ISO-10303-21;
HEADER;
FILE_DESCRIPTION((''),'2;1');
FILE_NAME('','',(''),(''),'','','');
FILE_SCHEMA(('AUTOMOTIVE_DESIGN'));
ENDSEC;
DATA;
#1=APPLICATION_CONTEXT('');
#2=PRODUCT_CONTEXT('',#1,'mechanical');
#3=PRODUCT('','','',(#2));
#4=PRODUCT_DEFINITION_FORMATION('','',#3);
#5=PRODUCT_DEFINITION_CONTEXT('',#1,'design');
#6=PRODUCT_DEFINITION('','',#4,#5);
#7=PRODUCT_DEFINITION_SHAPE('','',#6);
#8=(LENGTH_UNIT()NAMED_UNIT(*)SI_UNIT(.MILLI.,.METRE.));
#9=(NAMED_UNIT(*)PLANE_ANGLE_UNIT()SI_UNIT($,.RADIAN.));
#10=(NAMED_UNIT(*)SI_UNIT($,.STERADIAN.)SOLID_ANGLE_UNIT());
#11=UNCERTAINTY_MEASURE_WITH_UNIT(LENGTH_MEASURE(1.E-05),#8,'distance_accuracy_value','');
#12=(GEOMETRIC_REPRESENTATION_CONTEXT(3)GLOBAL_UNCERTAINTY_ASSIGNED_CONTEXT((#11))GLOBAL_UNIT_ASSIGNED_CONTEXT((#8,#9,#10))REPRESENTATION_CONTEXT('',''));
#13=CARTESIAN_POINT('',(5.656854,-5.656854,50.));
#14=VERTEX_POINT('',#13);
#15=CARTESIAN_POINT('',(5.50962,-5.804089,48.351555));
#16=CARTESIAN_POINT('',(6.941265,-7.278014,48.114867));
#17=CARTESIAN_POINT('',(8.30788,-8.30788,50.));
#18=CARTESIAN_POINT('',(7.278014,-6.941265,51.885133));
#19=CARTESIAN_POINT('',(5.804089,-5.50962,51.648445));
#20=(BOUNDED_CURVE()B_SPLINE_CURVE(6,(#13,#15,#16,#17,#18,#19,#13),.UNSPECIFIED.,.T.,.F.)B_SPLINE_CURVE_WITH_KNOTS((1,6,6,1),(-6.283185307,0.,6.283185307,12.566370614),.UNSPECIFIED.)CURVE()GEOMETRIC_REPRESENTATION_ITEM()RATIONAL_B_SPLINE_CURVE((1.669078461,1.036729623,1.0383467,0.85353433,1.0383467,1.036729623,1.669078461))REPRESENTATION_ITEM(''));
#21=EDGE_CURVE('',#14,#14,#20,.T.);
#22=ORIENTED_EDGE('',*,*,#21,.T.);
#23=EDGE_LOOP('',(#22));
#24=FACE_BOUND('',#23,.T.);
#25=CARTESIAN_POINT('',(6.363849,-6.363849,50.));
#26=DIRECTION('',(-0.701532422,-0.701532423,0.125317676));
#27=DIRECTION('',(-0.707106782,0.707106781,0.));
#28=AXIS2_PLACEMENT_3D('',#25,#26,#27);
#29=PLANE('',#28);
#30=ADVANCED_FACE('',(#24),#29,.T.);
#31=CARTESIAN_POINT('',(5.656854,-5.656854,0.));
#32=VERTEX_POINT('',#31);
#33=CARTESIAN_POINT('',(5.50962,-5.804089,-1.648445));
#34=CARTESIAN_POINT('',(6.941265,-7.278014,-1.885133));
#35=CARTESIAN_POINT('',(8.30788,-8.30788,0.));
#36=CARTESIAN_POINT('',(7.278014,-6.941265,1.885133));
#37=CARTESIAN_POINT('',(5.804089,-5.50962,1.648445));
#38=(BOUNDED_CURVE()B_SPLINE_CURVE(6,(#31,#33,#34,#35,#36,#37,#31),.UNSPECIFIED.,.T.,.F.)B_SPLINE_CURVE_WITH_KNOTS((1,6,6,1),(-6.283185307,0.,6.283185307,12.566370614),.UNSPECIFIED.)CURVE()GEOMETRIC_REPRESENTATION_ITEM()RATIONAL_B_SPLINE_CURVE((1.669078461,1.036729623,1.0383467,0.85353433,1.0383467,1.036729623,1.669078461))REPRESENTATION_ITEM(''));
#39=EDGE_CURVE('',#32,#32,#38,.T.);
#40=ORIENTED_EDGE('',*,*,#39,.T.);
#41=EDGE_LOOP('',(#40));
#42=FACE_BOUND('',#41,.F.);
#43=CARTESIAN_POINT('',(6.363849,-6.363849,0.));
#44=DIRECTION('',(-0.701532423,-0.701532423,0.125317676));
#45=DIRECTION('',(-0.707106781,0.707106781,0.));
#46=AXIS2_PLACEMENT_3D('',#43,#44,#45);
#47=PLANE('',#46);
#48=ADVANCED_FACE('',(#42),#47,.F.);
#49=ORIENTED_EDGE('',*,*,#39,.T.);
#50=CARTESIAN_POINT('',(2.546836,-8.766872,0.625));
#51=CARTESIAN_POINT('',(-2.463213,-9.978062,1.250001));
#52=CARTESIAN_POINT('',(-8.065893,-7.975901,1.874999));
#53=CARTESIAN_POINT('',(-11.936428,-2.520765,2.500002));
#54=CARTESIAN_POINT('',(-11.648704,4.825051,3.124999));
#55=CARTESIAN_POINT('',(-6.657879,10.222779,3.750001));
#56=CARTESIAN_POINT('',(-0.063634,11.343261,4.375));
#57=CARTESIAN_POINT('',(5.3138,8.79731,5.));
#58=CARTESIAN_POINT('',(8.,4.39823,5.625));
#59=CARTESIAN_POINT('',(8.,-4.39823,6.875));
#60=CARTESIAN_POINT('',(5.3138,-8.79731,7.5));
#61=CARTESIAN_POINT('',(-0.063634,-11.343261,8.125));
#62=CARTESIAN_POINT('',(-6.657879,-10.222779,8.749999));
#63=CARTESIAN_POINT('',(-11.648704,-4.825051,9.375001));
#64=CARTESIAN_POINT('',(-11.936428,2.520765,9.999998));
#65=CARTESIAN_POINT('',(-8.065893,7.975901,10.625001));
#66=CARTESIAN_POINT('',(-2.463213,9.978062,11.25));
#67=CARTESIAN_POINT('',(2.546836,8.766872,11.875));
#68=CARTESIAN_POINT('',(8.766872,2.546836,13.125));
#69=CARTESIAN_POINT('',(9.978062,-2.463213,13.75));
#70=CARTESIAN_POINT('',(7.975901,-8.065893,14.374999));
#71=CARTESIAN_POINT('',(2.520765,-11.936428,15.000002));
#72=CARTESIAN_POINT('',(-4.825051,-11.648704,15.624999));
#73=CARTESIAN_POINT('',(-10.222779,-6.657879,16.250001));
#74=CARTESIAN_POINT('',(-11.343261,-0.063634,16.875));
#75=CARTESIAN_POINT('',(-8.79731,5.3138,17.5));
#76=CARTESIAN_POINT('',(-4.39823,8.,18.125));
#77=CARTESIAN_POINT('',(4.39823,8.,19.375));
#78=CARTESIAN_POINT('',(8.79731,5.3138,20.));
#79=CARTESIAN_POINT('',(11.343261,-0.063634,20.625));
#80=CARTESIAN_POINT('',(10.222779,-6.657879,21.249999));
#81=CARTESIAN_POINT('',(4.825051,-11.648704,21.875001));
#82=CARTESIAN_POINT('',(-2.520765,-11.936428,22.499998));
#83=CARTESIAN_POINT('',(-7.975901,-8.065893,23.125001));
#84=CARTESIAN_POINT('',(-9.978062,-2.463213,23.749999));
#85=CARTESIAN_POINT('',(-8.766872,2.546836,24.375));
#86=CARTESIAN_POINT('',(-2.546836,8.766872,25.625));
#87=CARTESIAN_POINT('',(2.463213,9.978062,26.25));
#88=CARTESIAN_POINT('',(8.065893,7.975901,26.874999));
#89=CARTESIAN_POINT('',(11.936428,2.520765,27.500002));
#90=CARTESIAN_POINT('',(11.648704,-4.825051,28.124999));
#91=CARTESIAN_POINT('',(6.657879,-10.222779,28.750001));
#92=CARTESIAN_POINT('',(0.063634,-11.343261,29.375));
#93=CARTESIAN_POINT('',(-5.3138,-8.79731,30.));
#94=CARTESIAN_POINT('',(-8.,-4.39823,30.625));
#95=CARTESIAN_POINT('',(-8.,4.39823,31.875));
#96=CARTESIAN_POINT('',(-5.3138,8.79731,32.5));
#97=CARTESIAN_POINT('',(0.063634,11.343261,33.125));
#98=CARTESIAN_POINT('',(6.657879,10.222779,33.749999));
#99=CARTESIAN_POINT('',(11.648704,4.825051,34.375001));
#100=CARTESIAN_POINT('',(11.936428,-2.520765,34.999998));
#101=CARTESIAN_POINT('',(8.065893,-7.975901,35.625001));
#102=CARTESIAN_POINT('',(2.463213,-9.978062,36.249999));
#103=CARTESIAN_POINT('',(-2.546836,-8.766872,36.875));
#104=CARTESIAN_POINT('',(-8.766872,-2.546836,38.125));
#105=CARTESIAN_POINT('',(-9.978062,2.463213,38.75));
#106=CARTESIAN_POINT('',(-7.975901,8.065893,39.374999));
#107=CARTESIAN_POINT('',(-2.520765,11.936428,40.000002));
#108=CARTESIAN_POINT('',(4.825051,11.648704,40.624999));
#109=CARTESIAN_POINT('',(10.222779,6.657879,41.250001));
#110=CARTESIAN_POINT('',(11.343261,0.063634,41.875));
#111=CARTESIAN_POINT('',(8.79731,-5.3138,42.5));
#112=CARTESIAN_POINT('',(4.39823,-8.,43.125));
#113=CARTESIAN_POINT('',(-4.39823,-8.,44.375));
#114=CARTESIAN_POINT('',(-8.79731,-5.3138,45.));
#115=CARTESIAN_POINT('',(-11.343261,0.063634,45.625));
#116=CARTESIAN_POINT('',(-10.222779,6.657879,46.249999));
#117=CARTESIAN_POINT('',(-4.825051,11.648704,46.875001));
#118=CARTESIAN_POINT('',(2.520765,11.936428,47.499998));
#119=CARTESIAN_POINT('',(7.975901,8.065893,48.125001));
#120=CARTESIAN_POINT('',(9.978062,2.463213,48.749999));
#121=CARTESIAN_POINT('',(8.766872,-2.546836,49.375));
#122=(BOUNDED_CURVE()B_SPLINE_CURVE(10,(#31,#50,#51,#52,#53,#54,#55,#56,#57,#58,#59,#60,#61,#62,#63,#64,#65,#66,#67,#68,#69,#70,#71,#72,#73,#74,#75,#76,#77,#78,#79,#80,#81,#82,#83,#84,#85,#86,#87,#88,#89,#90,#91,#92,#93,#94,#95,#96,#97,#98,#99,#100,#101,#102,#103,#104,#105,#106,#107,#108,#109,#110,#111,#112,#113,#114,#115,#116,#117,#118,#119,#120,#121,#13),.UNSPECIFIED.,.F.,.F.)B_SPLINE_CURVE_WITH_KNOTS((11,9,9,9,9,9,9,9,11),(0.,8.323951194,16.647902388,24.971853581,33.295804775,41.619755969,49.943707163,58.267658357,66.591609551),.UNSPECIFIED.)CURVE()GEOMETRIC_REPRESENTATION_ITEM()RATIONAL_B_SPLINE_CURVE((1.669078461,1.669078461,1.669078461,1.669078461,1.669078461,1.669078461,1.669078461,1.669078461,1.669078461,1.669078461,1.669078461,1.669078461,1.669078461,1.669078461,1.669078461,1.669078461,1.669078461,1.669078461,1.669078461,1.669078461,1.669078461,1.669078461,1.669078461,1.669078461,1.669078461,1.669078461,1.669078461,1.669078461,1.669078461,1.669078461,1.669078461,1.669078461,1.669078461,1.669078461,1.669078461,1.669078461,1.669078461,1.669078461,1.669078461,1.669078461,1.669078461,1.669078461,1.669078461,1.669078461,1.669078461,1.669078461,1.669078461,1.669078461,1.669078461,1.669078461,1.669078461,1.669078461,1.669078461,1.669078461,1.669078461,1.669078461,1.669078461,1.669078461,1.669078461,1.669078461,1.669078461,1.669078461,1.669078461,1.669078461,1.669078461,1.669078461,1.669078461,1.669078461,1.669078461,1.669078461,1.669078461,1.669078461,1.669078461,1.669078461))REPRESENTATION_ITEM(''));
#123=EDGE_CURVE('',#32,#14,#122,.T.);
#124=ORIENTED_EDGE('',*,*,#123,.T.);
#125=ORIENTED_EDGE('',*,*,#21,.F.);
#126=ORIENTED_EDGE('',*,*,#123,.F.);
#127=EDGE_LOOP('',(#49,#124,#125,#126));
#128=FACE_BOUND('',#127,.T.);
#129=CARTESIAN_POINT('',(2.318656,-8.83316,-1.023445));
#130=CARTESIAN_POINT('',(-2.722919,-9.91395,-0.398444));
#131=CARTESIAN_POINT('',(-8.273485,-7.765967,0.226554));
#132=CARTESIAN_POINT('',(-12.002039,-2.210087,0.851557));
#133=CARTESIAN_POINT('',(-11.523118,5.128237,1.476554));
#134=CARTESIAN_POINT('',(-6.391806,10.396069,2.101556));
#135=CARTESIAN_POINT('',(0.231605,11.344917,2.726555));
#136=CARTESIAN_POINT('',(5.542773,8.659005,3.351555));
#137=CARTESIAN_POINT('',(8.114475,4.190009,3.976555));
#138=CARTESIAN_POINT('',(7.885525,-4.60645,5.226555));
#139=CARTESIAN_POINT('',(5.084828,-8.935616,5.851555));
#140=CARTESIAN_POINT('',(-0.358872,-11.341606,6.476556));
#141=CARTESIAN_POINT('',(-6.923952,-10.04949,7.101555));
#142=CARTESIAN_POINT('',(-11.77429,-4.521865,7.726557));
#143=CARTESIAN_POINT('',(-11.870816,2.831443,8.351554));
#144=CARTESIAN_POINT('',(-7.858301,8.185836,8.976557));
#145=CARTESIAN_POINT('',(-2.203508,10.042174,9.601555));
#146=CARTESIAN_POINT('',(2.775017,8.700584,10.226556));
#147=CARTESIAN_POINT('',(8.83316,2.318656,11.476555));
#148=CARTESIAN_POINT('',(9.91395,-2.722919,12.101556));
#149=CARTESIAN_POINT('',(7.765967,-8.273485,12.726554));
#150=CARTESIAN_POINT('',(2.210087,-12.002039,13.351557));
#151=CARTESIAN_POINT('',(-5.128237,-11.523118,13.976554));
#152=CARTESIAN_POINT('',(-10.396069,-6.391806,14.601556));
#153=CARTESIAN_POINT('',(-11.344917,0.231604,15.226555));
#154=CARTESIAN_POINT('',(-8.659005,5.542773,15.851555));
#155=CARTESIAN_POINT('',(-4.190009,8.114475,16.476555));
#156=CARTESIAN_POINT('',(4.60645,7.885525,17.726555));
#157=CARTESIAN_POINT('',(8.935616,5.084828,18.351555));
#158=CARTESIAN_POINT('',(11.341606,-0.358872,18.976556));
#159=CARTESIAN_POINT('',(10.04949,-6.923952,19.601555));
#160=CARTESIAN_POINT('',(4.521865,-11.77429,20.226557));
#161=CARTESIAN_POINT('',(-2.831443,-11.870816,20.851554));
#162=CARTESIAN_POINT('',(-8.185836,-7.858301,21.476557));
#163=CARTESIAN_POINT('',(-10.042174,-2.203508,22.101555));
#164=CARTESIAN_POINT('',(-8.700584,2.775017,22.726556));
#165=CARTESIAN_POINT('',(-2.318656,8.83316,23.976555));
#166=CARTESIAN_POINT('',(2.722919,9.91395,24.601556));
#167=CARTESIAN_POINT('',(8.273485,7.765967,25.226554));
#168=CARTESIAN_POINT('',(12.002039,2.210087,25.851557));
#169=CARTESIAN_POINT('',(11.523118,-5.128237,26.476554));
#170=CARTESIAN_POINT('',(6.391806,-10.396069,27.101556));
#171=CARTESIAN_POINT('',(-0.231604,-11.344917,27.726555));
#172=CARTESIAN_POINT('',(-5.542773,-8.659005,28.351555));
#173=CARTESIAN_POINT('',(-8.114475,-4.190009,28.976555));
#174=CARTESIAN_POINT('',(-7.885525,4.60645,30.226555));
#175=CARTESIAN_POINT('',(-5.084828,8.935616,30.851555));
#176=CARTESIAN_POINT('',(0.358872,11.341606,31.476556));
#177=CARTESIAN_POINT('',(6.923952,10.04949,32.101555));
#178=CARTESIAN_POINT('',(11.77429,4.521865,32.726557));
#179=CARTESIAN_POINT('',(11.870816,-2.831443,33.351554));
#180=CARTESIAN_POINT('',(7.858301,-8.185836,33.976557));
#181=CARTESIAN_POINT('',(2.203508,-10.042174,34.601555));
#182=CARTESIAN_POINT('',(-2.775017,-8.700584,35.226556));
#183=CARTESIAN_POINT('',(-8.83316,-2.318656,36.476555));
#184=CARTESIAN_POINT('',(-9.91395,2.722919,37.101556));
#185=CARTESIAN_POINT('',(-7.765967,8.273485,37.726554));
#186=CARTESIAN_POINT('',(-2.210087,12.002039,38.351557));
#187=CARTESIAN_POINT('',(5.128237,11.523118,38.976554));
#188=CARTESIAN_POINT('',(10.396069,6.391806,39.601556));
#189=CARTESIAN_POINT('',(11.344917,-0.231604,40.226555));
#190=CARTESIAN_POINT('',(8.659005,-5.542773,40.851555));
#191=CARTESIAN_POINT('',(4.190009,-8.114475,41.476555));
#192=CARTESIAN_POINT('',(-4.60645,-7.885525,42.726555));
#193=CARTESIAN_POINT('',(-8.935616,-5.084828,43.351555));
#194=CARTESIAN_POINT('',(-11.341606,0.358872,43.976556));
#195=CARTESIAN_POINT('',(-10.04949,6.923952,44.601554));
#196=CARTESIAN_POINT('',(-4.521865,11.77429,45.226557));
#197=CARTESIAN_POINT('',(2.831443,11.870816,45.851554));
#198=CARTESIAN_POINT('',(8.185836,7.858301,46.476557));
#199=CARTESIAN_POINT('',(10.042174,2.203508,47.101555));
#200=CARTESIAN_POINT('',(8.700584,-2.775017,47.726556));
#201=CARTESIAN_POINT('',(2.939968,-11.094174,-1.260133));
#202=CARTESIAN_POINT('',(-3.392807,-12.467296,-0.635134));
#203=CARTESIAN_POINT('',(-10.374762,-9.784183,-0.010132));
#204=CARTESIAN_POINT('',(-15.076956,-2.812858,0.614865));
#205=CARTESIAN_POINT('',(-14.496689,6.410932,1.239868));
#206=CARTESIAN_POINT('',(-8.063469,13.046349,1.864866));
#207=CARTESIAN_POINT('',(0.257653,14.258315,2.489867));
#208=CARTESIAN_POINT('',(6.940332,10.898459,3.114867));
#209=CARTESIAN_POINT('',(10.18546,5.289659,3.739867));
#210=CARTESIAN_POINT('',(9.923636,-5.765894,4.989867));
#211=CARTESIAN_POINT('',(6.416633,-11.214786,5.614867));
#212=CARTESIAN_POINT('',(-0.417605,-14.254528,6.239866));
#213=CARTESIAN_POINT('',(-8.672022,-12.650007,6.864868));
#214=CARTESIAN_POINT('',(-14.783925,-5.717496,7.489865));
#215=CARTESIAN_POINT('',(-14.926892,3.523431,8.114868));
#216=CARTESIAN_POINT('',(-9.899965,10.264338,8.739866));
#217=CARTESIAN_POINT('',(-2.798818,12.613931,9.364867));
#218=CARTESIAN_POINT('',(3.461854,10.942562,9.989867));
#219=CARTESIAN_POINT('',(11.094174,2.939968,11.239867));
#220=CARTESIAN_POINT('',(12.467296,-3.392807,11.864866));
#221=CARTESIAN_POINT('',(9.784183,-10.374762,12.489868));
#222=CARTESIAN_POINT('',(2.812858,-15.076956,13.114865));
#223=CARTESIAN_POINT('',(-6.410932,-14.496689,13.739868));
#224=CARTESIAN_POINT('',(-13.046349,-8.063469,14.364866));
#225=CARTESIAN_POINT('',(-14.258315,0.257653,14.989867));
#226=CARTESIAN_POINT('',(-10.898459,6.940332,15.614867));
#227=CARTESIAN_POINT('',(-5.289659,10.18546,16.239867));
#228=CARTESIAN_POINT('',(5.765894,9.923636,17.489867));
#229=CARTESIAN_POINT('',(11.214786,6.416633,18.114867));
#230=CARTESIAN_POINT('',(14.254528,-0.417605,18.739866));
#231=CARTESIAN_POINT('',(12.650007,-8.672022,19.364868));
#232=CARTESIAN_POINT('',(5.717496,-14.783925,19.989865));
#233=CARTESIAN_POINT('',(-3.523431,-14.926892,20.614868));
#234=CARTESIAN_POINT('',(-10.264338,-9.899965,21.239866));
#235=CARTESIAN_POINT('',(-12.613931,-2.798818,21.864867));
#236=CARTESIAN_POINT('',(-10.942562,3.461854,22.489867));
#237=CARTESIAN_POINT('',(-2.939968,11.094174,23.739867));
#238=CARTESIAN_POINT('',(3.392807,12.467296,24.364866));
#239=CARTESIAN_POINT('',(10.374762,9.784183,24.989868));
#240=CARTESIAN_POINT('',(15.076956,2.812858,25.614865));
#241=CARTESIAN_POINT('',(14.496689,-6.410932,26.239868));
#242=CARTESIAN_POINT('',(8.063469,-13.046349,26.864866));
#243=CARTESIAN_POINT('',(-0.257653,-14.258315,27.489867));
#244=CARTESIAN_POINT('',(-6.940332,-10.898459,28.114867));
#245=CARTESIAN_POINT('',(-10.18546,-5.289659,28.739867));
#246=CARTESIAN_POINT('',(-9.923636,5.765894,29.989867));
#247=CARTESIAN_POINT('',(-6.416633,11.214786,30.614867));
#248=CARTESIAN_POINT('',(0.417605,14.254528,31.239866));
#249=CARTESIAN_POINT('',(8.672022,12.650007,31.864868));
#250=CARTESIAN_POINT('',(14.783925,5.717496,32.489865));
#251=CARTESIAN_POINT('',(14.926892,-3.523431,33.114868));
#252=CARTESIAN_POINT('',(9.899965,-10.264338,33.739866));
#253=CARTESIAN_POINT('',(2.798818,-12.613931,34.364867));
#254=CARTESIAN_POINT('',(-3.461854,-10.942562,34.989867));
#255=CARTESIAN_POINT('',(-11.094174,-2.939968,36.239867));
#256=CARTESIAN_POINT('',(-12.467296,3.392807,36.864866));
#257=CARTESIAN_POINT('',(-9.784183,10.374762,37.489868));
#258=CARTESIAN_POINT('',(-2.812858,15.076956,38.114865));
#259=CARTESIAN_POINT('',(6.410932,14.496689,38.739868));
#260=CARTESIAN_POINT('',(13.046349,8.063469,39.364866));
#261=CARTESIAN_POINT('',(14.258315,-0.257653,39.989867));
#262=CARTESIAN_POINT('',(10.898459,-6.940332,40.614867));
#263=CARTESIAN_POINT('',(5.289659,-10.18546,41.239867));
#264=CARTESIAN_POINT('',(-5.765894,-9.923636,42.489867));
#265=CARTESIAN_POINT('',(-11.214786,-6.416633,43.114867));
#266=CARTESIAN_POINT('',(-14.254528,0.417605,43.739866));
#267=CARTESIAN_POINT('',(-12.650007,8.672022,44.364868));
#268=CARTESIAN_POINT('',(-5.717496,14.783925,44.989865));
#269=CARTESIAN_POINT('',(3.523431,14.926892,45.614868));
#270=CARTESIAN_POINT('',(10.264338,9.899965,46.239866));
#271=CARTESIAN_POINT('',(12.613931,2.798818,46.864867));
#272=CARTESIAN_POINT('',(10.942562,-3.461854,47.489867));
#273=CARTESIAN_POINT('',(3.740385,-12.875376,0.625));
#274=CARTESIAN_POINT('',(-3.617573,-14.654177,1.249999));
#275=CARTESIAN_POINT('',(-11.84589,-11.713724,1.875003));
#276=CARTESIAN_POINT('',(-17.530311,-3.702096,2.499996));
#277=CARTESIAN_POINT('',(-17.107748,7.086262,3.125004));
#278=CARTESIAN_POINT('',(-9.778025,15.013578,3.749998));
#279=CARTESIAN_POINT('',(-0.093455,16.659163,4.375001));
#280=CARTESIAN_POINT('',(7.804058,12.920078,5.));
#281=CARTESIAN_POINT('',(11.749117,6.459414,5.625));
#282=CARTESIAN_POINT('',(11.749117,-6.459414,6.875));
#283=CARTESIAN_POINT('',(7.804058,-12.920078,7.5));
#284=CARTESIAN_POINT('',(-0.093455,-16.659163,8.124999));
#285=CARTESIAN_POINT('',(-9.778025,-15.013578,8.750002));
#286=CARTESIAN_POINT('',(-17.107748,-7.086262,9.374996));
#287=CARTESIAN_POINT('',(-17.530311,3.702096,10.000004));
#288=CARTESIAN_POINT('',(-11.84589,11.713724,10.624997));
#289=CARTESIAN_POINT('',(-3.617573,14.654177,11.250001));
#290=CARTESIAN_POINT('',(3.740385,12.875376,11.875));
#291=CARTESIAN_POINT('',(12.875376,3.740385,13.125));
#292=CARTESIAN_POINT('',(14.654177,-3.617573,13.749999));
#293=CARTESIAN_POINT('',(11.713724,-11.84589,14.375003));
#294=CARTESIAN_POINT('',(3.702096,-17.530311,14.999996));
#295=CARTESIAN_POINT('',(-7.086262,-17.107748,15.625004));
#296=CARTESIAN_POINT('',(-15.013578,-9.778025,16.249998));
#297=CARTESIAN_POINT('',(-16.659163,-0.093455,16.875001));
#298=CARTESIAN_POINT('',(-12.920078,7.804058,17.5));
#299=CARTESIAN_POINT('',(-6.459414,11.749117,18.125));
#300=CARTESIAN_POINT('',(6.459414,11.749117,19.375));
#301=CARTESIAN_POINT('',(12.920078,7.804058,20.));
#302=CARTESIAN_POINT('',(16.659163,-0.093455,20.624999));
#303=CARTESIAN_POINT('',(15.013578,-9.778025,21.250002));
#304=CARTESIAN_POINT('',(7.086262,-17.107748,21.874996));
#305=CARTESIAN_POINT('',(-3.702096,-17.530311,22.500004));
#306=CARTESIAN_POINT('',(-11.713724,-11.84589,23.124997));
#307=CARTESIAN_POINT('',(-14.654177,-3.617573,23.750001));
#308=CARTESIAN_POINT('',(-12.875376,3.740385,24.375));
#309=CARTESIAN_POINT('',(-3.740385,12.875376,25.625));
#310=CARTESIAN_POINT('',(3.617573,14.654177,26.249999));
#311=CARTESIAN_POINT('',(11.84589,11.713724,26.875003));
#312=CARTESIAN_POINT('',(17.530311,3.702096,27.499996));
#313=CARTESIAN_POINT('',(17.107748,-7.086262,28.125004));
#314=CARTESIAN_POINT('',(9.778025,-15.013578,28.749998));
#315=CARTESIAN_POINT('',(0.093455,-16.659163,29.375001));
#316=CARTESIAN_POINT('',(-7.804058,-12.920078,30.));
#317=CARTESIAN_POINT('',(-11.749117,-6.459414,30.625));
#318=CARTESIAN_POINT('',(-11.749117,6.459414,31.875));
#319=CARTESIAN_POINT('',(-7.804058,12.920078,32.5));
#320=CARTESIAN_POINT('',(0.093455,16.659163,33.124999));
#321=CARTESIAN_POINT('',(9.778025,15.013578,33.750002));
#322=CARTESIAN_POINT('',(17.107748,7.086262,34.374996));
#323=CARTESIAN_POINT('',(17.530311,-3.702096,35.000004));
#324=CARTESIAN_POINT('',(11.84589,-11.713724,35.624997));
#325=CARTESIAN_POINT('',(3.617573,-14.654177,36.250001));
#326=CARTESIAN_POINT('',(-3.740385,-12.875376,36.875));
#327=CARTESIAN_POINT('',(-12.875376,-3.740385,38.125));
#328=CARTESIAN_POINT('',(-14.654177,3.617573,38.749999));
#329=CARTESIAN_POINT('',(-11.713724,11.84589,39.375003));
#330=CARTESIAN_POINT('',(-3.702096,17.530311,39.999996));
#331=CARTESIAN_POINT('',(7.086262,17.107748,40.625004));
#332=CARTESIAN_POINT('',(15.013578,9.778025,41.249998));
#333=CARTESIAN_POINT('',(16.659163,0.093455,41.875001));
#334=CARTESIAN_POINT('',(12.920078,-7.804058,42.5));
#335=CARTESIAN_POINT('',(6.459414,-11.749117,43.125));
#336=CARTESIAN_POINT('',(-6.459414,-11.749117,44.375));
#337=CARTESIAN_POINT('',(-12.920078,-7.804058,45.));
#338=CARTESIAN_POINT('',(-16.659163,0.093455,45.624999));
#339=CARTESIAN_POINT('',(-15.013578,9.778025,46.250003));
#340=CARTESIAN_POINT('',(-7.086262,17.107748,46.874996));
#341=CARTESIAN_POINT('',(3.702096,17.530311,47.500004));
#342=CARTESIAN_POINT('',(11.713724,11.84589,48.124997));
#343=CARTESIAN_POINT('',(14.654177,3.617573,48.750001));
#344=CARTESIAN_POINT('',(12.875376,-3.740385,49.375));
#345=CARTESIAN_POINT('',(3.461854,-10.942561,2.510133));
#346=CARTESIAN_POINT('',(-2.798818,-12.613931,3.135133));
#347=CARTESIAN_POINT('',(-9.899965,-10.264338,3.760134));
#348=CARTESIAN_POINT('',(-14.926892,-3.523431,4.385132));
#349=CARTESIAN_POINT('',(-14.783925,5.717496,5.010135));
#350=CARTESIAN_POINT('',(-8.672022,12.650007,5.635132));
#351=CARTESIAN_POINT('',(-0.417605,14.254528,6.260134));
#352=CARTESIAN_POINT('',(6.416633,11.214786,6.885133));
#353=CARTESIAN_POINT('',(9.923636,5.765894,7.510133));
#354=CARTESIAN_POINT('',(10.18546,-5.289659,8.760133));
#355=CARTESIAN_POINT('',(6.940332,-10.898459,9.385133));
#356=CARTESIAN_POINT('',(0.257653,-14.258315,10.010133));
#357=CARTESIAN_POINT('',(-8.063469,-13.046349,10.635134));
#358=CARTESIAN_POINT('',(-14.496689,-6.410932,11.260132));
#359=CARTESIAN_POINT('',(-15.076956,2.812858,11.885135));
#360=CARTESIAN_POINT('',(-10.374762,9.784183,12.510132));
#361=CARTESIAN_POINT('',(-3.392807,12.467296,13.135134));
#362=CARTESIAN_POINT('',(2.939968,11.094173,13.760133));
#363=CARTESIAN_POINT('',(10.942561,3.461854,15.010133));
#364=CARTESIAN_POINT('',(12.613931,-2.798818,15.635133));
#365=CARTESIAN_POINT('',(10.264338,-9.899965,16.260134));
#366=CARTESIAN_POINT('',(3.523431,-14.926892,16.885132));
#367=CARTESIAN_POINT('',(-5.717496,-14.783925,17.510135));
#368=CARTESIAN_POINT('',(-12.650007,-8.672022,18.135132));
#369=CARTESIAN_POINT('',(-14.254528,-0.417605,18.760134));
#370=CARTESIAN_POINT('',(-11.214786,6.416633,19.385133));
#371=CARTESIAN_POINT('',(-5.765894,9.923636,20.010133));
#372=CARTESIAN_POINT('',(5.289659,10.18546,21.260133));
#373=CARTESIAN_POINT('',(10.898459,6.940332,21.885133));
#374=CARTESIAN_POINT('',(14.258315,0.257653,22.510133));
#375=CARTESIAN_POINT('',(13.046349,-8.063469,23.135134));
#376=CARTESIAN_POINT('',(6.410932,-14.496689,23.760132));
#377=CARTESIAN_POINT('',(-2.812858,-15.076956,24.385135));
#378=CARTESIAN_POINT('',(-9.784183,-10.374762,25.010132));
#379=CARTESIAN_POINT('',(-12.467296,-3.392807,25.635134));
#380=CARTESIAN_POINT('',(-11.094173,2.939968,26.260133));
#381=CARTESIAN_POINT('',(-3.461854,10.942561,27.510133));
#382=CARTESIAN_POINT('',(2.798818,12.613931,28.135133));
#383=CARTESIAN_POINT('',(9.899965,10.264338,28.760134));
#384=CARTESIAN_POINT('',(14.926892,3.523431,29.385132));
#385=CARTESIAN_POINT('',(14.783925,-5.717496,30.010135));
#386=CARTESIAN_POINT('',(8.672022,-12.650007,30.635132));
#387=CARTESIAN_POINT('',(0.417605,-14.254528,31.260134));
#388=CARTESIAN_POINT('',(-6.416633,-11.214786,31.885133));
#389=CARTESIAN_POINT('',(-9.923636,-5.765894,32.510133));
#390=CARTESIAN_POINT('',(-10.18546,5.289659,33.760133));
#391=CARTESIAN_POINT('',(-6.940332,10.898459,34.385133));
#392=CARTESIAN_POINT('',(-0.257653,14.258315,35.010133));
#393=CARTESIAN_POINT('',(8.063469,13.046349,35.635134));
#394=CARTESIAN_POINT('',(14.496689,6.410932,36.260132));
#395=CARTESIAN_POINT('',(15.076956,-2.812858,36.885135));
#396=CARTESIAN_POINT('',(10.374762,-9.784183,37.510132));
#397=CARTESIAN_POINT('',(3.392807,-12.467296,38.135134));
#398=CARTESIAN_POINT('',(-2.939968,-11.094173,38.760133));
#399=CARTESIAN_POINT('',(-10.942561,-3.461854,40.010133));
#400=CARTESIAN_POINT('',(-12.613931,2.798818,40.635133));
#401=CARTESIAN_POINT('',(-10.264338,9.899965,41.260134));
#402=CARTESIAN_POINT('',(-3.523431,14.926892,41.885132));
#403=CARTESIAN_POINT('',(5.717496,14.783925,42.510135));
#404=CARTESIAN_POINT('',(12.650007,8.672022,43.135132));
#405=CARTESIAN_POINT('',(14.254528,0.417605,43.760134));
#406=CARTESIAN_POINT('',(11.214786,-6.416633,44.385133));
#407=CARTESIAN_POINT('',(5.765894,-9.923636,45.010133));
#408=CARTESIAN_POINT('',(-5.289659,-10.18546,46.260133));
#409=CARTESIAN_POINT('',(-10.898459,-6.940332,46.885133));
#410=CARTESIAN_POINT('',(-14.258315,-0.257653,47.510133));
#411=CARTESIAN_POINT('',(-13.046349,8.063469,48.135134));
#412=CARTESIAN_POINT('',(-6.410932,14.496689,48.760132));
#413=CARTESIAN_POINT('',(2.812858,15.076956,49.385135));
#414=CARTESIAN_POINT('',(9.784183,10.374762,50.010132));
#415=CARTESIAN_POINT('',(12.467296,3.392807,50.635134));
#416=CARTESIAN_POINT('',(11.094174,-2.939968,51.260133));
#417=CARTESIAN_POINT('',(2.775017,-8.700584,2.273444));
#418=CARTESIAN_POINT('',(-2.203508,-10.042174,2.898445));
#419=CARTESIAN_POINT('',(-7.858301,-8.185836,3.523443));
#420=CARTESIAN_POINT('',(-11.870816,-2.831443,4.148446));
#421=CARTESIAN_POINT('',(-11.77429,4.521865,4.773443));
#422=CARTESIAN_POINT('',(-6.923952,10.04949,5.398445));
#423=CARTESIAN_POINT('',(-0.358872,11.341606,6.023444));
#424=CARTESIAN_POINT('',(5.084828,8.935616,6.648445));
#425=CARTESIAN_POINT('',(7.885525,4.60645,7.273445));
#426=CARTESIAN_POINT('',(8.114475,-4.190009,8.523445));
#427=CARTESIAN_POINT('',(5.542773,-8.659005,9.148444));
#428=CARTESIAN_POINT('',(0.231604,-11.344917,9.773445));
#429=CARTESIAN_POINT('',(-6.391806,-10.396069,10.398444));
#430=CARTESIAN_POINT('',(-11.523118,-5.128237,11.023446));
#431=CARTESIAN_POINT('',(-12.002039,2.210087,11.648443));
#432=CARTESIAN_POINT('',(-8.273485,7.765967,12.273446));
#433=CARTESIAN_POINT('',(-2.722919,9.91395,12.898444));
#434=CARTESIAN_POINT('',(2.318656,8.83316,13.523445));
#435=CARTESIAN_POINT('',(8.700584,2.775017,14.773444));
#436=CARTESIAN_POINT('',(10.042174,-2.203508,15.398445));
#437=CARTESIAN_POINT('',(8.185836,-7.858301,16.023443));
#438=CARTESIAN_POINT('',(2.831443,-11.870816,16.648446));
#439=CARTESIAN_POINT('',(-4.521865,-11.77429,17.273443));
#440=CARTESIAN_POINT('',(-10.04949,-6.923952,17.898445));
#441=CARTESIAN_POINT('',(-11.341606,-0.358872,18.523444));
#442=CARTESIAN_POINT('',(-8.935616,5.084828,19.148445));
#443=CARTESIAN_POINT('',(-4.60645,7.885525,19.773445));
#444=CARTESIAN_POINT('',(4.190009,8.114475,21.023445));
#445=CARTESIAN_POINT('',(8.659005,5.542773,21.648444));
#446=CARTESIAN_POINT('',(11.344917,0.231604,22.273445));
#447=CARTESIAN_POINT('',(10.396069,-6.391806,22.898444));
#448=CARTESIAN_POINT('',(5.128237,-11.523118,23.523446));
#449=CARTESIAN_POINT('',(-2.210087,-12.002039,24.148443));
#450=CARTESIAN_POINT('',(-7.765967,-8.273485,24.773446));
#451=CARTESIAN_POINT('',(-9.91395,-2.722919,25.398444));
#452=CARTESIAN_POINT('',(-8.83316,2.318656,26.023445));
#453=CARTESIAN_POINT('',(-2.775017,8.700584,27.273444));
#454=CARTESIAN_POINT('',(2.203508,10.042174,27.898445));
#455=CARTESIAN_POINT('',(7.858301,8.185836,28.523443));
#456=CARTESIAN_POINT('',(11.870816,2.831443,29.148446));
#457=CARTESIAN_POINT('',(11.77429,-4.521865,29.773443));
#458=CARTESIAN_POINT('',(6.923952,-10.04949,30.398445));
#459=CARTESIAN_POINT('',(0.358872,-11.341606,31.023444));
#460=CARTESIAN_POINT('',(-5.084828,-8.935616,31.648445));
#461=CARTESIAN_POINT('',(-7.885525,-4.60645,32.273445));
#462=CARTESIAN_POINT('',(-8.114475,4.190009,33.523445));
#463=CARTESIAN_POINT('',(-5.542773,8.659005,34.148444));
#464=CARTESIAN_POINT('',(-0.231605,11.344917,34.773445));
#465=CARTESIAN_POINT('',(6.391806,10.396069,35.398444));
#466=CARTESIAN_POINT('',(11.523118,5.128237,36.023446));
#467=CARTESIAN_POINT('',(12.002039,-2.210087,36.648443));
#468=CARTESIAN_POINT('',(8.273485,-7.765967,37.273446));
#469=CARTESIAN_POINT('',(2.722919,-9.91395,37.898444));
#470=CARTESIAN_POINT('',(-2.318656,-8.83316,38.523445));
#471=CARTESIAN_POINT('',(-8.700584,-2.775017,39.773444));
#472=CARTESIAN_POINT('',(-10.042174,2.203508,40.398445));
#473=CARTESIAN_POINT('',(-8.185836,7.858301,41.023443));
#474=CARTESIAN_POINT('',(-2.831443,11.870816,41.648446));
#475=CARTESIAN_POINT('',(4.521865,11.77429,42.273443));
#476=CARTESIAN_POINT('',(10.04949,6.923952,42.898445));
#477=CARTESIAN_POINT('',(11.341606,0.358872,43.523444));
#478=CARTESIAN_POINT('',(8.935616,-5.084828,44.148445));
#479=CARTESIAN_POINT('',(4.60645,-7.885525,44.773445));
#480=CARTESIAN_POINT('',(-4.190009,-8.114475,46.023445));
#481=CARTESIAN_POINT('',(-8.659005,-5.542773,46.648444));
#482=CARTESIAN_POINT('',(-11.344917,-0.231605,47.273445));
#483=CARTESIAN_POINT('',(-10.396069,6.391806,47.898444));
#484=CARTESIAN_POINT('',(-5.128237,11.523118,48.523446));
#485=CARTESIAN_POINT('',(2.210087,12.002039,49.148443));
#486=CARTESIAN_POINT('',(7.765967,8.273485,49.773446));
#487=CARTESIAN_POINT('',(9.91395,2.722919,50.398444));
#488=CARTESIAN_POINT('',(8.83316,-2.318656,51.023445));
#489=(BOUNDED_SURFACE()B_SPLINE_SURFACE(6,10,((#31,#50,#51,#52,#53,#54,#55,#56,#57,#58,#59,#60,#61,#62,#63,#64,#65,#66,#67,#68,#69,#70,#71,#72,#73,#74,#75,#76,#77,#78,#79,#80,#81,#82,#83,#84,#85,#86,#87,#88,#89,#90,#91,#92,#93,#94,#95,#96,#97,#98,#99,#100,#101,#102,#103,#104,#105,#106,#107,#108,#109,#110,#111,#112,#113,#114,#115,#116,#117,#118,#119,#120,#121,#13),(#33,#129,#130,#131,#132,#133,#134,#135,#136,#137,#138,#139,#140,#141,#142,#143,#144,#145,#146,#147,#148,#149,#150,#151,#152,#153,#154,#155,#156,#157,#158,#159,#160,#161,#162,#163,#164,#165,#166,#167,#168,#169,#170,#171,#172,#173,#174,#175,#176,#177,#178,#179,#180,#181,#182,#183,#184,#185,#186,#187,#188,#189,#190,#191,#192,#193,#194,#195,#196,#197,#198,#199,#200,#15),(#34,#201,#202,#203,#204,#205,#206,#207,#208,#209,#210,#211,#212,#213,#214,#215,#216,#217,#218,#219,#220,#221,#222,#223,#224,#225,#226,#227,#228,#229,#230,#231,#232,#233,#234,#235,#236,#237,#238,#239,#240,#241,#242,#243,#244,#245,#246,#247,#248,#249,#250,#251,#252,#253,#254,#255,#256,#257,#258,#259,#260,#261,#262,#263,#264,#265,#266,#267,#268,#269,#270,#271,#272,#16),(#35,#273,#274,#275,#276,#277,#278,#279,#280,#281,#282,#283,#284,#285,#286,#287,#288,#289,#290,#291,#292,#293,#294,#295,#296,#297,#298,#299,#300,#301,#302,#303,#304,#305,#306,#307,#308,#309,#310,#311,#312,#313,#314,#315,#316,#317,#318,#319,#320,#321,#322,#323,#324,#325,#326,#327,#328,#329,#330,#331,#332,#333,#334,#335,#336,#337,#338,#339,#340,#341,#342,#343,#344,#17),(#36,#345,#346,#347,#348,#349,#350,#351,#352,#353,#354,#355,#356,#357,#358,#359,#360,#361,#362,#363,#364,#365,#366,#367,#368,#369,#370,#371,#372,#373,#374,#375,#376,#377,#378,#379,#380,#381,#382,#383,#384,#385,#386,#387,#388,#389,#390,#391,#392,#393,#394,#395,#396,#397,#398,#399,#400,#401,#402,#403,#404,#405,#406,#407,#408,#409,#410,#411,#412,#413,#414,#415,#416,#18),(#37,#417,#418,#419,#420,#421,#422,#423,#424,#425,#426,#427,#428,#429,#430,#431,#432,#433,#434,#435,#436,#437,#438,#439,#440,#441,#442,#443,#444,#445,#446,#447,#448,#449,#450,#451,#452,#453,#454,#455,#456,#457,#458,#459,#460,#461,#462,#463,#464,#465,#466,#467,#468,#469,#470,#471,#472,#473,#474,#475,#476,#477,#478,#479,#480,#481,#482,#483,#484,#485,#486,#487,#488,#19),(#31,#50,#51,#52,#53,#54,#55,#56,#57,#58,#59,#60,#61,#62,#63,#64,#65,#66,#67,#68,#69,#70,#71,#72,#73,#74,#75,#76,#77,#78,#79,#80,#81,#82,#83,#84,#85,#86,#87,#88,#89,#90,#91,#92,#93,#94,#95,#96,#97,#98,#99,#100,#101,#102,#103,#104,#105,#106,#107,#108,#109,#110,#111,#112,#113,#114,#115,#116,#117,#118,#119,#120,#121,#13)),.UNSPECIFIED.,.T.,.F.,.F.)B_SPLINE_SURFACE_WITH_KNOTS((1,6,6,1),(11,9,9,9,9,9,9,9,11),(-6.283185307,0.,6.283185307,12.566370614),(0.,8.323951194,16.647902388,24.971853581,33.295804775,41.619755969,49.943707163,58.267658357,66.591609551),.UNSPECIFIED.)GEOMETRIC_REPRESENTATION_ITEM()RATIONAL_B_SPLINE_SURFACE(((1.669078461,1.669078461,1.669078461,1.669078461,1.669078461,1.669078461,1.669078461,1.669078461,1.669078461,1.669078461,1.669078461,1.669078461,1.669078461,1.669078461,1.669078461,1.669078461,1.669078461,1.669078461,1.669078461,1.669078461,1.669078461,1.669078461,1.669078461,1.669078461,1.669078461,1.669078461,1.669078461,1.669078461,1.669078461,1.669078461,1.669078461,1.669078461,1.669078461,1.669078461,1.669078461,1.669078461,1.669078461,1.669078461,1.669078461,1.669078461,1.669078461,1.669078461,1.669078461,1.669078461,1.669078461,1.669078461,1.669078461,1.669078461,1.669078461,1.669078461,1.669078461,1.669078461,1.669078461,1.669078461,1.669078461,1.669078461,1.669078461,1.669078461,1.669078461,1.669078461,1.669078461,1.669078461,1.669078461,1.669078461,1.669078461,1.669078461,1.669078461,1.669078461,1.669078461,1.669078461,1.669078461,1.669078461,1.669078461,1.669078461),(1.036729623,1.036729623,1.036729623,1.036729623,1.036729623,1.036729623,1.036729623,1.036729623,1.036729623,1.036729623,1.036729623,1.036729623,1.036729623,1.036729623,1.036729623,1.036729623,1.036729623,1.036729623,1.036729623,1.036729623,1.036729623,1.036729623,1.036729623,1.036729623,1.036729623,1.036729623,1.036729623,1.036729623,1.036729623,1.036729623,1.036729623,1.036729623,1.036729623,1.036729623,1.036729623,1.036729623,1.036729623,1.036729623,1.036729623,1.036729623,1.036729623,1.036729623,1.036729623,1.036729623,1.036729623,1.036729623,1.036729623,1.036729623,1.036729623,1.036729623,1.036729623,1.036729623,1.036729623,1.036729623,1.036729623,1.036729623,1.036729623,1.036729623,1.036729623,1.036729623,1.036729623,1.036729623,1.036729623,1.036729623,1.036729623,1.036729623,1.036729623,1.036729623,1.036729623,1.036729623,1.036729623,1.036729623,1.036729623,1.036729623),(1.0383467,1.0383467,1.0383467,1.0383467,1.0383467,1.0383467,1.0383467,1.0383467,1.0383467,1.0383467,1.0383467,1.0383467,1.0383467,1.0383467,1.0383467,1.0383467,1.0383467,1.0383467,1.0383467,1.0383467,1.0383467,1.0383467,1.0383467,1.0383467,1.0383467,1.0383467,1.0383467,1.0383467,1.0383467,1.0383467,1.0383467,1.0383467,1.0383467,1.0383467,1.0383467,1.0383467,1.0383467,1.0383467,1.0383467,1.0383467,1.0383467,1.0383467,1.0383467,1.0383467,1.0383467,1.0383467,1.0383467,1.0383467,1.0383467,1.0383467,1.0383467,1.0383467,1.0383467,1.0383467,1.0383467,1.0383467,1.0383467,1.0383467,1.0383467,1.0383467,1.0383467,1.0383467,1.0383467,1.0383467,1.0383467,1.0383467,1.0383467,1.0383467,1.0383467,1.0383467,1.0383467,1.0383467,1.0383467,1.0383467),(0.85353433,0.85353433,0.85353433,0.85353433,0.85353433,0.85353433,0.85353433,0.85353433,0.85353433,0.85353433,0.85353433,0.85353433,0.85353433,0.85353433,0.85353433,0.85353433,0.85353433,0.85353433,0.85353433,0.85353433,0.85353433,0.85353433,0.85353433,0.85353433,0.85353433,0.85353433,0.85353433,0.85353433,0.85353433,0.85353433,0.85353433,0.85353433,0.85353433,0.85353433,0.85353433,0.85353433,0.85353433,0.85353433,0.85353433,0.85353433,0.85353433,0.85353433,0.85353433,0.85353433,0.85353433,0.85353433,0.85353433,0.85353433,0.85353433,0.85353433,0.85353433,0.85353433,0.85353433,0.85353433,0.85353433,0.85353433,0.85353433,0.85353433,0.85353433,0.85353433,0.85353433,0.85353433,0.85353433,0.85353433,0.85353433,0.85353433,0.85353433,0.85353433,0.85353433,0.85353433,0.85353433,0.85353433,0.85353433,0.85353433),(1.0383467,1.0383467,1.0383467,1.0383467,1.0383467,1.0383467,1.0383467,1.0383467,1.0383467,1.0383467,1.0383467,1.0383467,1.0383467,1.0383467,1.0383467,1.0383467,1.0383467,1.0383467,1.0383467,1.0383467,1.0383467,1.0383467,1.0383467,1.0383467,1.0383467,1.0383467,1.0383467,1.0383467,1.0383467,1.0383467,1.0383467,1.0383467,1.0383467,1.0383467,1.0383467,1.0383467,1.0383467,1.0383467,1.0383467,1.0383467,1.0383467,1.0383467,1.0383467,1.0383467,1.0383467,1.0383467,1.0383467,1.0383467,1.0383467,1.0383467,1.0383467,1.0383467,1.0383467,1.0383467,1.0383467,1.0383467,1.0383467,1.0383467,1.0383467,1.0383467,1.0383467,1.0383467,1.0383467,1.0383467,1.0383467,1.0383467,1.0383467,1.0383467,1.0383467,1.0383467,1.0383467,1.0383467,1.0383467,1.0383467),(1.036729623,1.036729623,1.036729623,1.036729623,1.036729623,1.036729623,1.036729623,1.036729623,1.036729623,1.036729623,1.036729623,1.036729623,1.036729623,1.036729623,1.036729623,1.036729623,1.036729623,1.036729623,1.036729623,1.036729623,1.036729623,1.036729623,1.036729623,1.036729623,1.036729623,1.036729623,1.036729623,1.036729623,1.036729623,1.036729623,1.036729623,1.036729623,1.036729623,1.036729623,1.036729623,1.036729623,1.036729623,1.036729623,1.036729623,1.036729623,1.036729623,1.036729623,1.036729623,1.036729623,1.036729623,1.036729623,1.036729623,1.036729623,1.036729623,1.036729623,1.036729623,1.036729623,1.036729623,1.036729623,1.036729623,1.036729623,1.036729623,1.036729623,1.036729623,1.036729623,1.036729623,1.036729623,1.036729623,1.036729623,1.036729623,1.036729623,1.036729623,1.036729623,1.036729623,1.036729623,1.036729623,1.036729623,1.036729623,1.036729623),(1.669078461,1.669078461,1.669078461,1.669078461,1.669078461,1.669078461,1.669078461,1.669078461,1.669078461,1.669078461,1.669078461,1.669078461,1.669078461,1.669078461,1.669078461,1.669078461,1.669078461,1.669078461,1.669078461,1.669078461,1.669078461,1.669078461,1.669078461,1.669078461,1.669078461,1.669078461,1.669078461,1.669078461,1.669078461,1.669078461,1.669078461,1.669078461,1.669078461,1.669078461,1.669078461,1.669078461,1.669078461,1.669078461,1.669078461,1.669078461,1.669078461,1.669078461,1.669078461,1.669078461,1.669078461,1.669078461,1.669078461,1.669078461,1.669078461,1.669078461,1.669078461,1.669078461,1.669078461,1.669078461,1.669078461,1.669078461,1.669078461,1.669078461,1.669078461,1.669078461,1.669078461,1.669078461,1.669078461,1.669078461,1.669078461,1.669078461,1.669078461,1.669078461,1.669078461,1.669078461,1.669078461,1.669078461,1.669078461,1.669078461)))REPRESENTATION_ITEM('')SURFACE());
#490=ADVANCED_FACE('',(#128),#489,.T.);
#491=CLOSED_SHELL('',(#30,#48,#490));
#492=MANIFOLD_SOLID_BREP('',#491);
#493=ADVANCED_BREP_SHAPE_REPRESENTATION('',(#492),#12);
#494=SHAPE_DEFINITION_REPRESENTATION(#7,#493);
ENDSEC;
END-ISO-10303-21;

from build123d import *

# Parameters (mm, degrees)
BARRER1_PITCH       = 7.142857143
BARRER1_HEIGHT      = 50
BARRER1_RADIUS      = 9
BARRER1_START_ANGLE = -45
BARRER1_PROFILE_R   = 1


with BuildPart() as part:
    # Barrer1: sweep along a helix
    with BuildLine() as barrer1_path:
        add(Helix(BARRER1_PITCH, BARRER1_HEIGHT, BARRER1_RADIUS, center=(0, 0, 0), direction=(0, 0, 1), lefthand=True, mode=Mode.PRIVATE).rotate(Axis((0, 0, 0), (0, 0, 1)), BARRER1_START_ANGLE))
    # Barrer1 profile (on start of the path) → Barrer1 (sweep)
    with BuildSketch(Plane(origin=(6.363961031, -6.363961031, 0), x_dir=(-0.7071067811867103, 0.7071067811863848, 0), z_dir=(-0.7015324226688445, -0.7015324226691674, 0.1253176758813791))):
        Circle(BARRER1_PROFILE_R)
    sweep(path=barrer1_path.line, is_frenet=True)


solid = part.part
